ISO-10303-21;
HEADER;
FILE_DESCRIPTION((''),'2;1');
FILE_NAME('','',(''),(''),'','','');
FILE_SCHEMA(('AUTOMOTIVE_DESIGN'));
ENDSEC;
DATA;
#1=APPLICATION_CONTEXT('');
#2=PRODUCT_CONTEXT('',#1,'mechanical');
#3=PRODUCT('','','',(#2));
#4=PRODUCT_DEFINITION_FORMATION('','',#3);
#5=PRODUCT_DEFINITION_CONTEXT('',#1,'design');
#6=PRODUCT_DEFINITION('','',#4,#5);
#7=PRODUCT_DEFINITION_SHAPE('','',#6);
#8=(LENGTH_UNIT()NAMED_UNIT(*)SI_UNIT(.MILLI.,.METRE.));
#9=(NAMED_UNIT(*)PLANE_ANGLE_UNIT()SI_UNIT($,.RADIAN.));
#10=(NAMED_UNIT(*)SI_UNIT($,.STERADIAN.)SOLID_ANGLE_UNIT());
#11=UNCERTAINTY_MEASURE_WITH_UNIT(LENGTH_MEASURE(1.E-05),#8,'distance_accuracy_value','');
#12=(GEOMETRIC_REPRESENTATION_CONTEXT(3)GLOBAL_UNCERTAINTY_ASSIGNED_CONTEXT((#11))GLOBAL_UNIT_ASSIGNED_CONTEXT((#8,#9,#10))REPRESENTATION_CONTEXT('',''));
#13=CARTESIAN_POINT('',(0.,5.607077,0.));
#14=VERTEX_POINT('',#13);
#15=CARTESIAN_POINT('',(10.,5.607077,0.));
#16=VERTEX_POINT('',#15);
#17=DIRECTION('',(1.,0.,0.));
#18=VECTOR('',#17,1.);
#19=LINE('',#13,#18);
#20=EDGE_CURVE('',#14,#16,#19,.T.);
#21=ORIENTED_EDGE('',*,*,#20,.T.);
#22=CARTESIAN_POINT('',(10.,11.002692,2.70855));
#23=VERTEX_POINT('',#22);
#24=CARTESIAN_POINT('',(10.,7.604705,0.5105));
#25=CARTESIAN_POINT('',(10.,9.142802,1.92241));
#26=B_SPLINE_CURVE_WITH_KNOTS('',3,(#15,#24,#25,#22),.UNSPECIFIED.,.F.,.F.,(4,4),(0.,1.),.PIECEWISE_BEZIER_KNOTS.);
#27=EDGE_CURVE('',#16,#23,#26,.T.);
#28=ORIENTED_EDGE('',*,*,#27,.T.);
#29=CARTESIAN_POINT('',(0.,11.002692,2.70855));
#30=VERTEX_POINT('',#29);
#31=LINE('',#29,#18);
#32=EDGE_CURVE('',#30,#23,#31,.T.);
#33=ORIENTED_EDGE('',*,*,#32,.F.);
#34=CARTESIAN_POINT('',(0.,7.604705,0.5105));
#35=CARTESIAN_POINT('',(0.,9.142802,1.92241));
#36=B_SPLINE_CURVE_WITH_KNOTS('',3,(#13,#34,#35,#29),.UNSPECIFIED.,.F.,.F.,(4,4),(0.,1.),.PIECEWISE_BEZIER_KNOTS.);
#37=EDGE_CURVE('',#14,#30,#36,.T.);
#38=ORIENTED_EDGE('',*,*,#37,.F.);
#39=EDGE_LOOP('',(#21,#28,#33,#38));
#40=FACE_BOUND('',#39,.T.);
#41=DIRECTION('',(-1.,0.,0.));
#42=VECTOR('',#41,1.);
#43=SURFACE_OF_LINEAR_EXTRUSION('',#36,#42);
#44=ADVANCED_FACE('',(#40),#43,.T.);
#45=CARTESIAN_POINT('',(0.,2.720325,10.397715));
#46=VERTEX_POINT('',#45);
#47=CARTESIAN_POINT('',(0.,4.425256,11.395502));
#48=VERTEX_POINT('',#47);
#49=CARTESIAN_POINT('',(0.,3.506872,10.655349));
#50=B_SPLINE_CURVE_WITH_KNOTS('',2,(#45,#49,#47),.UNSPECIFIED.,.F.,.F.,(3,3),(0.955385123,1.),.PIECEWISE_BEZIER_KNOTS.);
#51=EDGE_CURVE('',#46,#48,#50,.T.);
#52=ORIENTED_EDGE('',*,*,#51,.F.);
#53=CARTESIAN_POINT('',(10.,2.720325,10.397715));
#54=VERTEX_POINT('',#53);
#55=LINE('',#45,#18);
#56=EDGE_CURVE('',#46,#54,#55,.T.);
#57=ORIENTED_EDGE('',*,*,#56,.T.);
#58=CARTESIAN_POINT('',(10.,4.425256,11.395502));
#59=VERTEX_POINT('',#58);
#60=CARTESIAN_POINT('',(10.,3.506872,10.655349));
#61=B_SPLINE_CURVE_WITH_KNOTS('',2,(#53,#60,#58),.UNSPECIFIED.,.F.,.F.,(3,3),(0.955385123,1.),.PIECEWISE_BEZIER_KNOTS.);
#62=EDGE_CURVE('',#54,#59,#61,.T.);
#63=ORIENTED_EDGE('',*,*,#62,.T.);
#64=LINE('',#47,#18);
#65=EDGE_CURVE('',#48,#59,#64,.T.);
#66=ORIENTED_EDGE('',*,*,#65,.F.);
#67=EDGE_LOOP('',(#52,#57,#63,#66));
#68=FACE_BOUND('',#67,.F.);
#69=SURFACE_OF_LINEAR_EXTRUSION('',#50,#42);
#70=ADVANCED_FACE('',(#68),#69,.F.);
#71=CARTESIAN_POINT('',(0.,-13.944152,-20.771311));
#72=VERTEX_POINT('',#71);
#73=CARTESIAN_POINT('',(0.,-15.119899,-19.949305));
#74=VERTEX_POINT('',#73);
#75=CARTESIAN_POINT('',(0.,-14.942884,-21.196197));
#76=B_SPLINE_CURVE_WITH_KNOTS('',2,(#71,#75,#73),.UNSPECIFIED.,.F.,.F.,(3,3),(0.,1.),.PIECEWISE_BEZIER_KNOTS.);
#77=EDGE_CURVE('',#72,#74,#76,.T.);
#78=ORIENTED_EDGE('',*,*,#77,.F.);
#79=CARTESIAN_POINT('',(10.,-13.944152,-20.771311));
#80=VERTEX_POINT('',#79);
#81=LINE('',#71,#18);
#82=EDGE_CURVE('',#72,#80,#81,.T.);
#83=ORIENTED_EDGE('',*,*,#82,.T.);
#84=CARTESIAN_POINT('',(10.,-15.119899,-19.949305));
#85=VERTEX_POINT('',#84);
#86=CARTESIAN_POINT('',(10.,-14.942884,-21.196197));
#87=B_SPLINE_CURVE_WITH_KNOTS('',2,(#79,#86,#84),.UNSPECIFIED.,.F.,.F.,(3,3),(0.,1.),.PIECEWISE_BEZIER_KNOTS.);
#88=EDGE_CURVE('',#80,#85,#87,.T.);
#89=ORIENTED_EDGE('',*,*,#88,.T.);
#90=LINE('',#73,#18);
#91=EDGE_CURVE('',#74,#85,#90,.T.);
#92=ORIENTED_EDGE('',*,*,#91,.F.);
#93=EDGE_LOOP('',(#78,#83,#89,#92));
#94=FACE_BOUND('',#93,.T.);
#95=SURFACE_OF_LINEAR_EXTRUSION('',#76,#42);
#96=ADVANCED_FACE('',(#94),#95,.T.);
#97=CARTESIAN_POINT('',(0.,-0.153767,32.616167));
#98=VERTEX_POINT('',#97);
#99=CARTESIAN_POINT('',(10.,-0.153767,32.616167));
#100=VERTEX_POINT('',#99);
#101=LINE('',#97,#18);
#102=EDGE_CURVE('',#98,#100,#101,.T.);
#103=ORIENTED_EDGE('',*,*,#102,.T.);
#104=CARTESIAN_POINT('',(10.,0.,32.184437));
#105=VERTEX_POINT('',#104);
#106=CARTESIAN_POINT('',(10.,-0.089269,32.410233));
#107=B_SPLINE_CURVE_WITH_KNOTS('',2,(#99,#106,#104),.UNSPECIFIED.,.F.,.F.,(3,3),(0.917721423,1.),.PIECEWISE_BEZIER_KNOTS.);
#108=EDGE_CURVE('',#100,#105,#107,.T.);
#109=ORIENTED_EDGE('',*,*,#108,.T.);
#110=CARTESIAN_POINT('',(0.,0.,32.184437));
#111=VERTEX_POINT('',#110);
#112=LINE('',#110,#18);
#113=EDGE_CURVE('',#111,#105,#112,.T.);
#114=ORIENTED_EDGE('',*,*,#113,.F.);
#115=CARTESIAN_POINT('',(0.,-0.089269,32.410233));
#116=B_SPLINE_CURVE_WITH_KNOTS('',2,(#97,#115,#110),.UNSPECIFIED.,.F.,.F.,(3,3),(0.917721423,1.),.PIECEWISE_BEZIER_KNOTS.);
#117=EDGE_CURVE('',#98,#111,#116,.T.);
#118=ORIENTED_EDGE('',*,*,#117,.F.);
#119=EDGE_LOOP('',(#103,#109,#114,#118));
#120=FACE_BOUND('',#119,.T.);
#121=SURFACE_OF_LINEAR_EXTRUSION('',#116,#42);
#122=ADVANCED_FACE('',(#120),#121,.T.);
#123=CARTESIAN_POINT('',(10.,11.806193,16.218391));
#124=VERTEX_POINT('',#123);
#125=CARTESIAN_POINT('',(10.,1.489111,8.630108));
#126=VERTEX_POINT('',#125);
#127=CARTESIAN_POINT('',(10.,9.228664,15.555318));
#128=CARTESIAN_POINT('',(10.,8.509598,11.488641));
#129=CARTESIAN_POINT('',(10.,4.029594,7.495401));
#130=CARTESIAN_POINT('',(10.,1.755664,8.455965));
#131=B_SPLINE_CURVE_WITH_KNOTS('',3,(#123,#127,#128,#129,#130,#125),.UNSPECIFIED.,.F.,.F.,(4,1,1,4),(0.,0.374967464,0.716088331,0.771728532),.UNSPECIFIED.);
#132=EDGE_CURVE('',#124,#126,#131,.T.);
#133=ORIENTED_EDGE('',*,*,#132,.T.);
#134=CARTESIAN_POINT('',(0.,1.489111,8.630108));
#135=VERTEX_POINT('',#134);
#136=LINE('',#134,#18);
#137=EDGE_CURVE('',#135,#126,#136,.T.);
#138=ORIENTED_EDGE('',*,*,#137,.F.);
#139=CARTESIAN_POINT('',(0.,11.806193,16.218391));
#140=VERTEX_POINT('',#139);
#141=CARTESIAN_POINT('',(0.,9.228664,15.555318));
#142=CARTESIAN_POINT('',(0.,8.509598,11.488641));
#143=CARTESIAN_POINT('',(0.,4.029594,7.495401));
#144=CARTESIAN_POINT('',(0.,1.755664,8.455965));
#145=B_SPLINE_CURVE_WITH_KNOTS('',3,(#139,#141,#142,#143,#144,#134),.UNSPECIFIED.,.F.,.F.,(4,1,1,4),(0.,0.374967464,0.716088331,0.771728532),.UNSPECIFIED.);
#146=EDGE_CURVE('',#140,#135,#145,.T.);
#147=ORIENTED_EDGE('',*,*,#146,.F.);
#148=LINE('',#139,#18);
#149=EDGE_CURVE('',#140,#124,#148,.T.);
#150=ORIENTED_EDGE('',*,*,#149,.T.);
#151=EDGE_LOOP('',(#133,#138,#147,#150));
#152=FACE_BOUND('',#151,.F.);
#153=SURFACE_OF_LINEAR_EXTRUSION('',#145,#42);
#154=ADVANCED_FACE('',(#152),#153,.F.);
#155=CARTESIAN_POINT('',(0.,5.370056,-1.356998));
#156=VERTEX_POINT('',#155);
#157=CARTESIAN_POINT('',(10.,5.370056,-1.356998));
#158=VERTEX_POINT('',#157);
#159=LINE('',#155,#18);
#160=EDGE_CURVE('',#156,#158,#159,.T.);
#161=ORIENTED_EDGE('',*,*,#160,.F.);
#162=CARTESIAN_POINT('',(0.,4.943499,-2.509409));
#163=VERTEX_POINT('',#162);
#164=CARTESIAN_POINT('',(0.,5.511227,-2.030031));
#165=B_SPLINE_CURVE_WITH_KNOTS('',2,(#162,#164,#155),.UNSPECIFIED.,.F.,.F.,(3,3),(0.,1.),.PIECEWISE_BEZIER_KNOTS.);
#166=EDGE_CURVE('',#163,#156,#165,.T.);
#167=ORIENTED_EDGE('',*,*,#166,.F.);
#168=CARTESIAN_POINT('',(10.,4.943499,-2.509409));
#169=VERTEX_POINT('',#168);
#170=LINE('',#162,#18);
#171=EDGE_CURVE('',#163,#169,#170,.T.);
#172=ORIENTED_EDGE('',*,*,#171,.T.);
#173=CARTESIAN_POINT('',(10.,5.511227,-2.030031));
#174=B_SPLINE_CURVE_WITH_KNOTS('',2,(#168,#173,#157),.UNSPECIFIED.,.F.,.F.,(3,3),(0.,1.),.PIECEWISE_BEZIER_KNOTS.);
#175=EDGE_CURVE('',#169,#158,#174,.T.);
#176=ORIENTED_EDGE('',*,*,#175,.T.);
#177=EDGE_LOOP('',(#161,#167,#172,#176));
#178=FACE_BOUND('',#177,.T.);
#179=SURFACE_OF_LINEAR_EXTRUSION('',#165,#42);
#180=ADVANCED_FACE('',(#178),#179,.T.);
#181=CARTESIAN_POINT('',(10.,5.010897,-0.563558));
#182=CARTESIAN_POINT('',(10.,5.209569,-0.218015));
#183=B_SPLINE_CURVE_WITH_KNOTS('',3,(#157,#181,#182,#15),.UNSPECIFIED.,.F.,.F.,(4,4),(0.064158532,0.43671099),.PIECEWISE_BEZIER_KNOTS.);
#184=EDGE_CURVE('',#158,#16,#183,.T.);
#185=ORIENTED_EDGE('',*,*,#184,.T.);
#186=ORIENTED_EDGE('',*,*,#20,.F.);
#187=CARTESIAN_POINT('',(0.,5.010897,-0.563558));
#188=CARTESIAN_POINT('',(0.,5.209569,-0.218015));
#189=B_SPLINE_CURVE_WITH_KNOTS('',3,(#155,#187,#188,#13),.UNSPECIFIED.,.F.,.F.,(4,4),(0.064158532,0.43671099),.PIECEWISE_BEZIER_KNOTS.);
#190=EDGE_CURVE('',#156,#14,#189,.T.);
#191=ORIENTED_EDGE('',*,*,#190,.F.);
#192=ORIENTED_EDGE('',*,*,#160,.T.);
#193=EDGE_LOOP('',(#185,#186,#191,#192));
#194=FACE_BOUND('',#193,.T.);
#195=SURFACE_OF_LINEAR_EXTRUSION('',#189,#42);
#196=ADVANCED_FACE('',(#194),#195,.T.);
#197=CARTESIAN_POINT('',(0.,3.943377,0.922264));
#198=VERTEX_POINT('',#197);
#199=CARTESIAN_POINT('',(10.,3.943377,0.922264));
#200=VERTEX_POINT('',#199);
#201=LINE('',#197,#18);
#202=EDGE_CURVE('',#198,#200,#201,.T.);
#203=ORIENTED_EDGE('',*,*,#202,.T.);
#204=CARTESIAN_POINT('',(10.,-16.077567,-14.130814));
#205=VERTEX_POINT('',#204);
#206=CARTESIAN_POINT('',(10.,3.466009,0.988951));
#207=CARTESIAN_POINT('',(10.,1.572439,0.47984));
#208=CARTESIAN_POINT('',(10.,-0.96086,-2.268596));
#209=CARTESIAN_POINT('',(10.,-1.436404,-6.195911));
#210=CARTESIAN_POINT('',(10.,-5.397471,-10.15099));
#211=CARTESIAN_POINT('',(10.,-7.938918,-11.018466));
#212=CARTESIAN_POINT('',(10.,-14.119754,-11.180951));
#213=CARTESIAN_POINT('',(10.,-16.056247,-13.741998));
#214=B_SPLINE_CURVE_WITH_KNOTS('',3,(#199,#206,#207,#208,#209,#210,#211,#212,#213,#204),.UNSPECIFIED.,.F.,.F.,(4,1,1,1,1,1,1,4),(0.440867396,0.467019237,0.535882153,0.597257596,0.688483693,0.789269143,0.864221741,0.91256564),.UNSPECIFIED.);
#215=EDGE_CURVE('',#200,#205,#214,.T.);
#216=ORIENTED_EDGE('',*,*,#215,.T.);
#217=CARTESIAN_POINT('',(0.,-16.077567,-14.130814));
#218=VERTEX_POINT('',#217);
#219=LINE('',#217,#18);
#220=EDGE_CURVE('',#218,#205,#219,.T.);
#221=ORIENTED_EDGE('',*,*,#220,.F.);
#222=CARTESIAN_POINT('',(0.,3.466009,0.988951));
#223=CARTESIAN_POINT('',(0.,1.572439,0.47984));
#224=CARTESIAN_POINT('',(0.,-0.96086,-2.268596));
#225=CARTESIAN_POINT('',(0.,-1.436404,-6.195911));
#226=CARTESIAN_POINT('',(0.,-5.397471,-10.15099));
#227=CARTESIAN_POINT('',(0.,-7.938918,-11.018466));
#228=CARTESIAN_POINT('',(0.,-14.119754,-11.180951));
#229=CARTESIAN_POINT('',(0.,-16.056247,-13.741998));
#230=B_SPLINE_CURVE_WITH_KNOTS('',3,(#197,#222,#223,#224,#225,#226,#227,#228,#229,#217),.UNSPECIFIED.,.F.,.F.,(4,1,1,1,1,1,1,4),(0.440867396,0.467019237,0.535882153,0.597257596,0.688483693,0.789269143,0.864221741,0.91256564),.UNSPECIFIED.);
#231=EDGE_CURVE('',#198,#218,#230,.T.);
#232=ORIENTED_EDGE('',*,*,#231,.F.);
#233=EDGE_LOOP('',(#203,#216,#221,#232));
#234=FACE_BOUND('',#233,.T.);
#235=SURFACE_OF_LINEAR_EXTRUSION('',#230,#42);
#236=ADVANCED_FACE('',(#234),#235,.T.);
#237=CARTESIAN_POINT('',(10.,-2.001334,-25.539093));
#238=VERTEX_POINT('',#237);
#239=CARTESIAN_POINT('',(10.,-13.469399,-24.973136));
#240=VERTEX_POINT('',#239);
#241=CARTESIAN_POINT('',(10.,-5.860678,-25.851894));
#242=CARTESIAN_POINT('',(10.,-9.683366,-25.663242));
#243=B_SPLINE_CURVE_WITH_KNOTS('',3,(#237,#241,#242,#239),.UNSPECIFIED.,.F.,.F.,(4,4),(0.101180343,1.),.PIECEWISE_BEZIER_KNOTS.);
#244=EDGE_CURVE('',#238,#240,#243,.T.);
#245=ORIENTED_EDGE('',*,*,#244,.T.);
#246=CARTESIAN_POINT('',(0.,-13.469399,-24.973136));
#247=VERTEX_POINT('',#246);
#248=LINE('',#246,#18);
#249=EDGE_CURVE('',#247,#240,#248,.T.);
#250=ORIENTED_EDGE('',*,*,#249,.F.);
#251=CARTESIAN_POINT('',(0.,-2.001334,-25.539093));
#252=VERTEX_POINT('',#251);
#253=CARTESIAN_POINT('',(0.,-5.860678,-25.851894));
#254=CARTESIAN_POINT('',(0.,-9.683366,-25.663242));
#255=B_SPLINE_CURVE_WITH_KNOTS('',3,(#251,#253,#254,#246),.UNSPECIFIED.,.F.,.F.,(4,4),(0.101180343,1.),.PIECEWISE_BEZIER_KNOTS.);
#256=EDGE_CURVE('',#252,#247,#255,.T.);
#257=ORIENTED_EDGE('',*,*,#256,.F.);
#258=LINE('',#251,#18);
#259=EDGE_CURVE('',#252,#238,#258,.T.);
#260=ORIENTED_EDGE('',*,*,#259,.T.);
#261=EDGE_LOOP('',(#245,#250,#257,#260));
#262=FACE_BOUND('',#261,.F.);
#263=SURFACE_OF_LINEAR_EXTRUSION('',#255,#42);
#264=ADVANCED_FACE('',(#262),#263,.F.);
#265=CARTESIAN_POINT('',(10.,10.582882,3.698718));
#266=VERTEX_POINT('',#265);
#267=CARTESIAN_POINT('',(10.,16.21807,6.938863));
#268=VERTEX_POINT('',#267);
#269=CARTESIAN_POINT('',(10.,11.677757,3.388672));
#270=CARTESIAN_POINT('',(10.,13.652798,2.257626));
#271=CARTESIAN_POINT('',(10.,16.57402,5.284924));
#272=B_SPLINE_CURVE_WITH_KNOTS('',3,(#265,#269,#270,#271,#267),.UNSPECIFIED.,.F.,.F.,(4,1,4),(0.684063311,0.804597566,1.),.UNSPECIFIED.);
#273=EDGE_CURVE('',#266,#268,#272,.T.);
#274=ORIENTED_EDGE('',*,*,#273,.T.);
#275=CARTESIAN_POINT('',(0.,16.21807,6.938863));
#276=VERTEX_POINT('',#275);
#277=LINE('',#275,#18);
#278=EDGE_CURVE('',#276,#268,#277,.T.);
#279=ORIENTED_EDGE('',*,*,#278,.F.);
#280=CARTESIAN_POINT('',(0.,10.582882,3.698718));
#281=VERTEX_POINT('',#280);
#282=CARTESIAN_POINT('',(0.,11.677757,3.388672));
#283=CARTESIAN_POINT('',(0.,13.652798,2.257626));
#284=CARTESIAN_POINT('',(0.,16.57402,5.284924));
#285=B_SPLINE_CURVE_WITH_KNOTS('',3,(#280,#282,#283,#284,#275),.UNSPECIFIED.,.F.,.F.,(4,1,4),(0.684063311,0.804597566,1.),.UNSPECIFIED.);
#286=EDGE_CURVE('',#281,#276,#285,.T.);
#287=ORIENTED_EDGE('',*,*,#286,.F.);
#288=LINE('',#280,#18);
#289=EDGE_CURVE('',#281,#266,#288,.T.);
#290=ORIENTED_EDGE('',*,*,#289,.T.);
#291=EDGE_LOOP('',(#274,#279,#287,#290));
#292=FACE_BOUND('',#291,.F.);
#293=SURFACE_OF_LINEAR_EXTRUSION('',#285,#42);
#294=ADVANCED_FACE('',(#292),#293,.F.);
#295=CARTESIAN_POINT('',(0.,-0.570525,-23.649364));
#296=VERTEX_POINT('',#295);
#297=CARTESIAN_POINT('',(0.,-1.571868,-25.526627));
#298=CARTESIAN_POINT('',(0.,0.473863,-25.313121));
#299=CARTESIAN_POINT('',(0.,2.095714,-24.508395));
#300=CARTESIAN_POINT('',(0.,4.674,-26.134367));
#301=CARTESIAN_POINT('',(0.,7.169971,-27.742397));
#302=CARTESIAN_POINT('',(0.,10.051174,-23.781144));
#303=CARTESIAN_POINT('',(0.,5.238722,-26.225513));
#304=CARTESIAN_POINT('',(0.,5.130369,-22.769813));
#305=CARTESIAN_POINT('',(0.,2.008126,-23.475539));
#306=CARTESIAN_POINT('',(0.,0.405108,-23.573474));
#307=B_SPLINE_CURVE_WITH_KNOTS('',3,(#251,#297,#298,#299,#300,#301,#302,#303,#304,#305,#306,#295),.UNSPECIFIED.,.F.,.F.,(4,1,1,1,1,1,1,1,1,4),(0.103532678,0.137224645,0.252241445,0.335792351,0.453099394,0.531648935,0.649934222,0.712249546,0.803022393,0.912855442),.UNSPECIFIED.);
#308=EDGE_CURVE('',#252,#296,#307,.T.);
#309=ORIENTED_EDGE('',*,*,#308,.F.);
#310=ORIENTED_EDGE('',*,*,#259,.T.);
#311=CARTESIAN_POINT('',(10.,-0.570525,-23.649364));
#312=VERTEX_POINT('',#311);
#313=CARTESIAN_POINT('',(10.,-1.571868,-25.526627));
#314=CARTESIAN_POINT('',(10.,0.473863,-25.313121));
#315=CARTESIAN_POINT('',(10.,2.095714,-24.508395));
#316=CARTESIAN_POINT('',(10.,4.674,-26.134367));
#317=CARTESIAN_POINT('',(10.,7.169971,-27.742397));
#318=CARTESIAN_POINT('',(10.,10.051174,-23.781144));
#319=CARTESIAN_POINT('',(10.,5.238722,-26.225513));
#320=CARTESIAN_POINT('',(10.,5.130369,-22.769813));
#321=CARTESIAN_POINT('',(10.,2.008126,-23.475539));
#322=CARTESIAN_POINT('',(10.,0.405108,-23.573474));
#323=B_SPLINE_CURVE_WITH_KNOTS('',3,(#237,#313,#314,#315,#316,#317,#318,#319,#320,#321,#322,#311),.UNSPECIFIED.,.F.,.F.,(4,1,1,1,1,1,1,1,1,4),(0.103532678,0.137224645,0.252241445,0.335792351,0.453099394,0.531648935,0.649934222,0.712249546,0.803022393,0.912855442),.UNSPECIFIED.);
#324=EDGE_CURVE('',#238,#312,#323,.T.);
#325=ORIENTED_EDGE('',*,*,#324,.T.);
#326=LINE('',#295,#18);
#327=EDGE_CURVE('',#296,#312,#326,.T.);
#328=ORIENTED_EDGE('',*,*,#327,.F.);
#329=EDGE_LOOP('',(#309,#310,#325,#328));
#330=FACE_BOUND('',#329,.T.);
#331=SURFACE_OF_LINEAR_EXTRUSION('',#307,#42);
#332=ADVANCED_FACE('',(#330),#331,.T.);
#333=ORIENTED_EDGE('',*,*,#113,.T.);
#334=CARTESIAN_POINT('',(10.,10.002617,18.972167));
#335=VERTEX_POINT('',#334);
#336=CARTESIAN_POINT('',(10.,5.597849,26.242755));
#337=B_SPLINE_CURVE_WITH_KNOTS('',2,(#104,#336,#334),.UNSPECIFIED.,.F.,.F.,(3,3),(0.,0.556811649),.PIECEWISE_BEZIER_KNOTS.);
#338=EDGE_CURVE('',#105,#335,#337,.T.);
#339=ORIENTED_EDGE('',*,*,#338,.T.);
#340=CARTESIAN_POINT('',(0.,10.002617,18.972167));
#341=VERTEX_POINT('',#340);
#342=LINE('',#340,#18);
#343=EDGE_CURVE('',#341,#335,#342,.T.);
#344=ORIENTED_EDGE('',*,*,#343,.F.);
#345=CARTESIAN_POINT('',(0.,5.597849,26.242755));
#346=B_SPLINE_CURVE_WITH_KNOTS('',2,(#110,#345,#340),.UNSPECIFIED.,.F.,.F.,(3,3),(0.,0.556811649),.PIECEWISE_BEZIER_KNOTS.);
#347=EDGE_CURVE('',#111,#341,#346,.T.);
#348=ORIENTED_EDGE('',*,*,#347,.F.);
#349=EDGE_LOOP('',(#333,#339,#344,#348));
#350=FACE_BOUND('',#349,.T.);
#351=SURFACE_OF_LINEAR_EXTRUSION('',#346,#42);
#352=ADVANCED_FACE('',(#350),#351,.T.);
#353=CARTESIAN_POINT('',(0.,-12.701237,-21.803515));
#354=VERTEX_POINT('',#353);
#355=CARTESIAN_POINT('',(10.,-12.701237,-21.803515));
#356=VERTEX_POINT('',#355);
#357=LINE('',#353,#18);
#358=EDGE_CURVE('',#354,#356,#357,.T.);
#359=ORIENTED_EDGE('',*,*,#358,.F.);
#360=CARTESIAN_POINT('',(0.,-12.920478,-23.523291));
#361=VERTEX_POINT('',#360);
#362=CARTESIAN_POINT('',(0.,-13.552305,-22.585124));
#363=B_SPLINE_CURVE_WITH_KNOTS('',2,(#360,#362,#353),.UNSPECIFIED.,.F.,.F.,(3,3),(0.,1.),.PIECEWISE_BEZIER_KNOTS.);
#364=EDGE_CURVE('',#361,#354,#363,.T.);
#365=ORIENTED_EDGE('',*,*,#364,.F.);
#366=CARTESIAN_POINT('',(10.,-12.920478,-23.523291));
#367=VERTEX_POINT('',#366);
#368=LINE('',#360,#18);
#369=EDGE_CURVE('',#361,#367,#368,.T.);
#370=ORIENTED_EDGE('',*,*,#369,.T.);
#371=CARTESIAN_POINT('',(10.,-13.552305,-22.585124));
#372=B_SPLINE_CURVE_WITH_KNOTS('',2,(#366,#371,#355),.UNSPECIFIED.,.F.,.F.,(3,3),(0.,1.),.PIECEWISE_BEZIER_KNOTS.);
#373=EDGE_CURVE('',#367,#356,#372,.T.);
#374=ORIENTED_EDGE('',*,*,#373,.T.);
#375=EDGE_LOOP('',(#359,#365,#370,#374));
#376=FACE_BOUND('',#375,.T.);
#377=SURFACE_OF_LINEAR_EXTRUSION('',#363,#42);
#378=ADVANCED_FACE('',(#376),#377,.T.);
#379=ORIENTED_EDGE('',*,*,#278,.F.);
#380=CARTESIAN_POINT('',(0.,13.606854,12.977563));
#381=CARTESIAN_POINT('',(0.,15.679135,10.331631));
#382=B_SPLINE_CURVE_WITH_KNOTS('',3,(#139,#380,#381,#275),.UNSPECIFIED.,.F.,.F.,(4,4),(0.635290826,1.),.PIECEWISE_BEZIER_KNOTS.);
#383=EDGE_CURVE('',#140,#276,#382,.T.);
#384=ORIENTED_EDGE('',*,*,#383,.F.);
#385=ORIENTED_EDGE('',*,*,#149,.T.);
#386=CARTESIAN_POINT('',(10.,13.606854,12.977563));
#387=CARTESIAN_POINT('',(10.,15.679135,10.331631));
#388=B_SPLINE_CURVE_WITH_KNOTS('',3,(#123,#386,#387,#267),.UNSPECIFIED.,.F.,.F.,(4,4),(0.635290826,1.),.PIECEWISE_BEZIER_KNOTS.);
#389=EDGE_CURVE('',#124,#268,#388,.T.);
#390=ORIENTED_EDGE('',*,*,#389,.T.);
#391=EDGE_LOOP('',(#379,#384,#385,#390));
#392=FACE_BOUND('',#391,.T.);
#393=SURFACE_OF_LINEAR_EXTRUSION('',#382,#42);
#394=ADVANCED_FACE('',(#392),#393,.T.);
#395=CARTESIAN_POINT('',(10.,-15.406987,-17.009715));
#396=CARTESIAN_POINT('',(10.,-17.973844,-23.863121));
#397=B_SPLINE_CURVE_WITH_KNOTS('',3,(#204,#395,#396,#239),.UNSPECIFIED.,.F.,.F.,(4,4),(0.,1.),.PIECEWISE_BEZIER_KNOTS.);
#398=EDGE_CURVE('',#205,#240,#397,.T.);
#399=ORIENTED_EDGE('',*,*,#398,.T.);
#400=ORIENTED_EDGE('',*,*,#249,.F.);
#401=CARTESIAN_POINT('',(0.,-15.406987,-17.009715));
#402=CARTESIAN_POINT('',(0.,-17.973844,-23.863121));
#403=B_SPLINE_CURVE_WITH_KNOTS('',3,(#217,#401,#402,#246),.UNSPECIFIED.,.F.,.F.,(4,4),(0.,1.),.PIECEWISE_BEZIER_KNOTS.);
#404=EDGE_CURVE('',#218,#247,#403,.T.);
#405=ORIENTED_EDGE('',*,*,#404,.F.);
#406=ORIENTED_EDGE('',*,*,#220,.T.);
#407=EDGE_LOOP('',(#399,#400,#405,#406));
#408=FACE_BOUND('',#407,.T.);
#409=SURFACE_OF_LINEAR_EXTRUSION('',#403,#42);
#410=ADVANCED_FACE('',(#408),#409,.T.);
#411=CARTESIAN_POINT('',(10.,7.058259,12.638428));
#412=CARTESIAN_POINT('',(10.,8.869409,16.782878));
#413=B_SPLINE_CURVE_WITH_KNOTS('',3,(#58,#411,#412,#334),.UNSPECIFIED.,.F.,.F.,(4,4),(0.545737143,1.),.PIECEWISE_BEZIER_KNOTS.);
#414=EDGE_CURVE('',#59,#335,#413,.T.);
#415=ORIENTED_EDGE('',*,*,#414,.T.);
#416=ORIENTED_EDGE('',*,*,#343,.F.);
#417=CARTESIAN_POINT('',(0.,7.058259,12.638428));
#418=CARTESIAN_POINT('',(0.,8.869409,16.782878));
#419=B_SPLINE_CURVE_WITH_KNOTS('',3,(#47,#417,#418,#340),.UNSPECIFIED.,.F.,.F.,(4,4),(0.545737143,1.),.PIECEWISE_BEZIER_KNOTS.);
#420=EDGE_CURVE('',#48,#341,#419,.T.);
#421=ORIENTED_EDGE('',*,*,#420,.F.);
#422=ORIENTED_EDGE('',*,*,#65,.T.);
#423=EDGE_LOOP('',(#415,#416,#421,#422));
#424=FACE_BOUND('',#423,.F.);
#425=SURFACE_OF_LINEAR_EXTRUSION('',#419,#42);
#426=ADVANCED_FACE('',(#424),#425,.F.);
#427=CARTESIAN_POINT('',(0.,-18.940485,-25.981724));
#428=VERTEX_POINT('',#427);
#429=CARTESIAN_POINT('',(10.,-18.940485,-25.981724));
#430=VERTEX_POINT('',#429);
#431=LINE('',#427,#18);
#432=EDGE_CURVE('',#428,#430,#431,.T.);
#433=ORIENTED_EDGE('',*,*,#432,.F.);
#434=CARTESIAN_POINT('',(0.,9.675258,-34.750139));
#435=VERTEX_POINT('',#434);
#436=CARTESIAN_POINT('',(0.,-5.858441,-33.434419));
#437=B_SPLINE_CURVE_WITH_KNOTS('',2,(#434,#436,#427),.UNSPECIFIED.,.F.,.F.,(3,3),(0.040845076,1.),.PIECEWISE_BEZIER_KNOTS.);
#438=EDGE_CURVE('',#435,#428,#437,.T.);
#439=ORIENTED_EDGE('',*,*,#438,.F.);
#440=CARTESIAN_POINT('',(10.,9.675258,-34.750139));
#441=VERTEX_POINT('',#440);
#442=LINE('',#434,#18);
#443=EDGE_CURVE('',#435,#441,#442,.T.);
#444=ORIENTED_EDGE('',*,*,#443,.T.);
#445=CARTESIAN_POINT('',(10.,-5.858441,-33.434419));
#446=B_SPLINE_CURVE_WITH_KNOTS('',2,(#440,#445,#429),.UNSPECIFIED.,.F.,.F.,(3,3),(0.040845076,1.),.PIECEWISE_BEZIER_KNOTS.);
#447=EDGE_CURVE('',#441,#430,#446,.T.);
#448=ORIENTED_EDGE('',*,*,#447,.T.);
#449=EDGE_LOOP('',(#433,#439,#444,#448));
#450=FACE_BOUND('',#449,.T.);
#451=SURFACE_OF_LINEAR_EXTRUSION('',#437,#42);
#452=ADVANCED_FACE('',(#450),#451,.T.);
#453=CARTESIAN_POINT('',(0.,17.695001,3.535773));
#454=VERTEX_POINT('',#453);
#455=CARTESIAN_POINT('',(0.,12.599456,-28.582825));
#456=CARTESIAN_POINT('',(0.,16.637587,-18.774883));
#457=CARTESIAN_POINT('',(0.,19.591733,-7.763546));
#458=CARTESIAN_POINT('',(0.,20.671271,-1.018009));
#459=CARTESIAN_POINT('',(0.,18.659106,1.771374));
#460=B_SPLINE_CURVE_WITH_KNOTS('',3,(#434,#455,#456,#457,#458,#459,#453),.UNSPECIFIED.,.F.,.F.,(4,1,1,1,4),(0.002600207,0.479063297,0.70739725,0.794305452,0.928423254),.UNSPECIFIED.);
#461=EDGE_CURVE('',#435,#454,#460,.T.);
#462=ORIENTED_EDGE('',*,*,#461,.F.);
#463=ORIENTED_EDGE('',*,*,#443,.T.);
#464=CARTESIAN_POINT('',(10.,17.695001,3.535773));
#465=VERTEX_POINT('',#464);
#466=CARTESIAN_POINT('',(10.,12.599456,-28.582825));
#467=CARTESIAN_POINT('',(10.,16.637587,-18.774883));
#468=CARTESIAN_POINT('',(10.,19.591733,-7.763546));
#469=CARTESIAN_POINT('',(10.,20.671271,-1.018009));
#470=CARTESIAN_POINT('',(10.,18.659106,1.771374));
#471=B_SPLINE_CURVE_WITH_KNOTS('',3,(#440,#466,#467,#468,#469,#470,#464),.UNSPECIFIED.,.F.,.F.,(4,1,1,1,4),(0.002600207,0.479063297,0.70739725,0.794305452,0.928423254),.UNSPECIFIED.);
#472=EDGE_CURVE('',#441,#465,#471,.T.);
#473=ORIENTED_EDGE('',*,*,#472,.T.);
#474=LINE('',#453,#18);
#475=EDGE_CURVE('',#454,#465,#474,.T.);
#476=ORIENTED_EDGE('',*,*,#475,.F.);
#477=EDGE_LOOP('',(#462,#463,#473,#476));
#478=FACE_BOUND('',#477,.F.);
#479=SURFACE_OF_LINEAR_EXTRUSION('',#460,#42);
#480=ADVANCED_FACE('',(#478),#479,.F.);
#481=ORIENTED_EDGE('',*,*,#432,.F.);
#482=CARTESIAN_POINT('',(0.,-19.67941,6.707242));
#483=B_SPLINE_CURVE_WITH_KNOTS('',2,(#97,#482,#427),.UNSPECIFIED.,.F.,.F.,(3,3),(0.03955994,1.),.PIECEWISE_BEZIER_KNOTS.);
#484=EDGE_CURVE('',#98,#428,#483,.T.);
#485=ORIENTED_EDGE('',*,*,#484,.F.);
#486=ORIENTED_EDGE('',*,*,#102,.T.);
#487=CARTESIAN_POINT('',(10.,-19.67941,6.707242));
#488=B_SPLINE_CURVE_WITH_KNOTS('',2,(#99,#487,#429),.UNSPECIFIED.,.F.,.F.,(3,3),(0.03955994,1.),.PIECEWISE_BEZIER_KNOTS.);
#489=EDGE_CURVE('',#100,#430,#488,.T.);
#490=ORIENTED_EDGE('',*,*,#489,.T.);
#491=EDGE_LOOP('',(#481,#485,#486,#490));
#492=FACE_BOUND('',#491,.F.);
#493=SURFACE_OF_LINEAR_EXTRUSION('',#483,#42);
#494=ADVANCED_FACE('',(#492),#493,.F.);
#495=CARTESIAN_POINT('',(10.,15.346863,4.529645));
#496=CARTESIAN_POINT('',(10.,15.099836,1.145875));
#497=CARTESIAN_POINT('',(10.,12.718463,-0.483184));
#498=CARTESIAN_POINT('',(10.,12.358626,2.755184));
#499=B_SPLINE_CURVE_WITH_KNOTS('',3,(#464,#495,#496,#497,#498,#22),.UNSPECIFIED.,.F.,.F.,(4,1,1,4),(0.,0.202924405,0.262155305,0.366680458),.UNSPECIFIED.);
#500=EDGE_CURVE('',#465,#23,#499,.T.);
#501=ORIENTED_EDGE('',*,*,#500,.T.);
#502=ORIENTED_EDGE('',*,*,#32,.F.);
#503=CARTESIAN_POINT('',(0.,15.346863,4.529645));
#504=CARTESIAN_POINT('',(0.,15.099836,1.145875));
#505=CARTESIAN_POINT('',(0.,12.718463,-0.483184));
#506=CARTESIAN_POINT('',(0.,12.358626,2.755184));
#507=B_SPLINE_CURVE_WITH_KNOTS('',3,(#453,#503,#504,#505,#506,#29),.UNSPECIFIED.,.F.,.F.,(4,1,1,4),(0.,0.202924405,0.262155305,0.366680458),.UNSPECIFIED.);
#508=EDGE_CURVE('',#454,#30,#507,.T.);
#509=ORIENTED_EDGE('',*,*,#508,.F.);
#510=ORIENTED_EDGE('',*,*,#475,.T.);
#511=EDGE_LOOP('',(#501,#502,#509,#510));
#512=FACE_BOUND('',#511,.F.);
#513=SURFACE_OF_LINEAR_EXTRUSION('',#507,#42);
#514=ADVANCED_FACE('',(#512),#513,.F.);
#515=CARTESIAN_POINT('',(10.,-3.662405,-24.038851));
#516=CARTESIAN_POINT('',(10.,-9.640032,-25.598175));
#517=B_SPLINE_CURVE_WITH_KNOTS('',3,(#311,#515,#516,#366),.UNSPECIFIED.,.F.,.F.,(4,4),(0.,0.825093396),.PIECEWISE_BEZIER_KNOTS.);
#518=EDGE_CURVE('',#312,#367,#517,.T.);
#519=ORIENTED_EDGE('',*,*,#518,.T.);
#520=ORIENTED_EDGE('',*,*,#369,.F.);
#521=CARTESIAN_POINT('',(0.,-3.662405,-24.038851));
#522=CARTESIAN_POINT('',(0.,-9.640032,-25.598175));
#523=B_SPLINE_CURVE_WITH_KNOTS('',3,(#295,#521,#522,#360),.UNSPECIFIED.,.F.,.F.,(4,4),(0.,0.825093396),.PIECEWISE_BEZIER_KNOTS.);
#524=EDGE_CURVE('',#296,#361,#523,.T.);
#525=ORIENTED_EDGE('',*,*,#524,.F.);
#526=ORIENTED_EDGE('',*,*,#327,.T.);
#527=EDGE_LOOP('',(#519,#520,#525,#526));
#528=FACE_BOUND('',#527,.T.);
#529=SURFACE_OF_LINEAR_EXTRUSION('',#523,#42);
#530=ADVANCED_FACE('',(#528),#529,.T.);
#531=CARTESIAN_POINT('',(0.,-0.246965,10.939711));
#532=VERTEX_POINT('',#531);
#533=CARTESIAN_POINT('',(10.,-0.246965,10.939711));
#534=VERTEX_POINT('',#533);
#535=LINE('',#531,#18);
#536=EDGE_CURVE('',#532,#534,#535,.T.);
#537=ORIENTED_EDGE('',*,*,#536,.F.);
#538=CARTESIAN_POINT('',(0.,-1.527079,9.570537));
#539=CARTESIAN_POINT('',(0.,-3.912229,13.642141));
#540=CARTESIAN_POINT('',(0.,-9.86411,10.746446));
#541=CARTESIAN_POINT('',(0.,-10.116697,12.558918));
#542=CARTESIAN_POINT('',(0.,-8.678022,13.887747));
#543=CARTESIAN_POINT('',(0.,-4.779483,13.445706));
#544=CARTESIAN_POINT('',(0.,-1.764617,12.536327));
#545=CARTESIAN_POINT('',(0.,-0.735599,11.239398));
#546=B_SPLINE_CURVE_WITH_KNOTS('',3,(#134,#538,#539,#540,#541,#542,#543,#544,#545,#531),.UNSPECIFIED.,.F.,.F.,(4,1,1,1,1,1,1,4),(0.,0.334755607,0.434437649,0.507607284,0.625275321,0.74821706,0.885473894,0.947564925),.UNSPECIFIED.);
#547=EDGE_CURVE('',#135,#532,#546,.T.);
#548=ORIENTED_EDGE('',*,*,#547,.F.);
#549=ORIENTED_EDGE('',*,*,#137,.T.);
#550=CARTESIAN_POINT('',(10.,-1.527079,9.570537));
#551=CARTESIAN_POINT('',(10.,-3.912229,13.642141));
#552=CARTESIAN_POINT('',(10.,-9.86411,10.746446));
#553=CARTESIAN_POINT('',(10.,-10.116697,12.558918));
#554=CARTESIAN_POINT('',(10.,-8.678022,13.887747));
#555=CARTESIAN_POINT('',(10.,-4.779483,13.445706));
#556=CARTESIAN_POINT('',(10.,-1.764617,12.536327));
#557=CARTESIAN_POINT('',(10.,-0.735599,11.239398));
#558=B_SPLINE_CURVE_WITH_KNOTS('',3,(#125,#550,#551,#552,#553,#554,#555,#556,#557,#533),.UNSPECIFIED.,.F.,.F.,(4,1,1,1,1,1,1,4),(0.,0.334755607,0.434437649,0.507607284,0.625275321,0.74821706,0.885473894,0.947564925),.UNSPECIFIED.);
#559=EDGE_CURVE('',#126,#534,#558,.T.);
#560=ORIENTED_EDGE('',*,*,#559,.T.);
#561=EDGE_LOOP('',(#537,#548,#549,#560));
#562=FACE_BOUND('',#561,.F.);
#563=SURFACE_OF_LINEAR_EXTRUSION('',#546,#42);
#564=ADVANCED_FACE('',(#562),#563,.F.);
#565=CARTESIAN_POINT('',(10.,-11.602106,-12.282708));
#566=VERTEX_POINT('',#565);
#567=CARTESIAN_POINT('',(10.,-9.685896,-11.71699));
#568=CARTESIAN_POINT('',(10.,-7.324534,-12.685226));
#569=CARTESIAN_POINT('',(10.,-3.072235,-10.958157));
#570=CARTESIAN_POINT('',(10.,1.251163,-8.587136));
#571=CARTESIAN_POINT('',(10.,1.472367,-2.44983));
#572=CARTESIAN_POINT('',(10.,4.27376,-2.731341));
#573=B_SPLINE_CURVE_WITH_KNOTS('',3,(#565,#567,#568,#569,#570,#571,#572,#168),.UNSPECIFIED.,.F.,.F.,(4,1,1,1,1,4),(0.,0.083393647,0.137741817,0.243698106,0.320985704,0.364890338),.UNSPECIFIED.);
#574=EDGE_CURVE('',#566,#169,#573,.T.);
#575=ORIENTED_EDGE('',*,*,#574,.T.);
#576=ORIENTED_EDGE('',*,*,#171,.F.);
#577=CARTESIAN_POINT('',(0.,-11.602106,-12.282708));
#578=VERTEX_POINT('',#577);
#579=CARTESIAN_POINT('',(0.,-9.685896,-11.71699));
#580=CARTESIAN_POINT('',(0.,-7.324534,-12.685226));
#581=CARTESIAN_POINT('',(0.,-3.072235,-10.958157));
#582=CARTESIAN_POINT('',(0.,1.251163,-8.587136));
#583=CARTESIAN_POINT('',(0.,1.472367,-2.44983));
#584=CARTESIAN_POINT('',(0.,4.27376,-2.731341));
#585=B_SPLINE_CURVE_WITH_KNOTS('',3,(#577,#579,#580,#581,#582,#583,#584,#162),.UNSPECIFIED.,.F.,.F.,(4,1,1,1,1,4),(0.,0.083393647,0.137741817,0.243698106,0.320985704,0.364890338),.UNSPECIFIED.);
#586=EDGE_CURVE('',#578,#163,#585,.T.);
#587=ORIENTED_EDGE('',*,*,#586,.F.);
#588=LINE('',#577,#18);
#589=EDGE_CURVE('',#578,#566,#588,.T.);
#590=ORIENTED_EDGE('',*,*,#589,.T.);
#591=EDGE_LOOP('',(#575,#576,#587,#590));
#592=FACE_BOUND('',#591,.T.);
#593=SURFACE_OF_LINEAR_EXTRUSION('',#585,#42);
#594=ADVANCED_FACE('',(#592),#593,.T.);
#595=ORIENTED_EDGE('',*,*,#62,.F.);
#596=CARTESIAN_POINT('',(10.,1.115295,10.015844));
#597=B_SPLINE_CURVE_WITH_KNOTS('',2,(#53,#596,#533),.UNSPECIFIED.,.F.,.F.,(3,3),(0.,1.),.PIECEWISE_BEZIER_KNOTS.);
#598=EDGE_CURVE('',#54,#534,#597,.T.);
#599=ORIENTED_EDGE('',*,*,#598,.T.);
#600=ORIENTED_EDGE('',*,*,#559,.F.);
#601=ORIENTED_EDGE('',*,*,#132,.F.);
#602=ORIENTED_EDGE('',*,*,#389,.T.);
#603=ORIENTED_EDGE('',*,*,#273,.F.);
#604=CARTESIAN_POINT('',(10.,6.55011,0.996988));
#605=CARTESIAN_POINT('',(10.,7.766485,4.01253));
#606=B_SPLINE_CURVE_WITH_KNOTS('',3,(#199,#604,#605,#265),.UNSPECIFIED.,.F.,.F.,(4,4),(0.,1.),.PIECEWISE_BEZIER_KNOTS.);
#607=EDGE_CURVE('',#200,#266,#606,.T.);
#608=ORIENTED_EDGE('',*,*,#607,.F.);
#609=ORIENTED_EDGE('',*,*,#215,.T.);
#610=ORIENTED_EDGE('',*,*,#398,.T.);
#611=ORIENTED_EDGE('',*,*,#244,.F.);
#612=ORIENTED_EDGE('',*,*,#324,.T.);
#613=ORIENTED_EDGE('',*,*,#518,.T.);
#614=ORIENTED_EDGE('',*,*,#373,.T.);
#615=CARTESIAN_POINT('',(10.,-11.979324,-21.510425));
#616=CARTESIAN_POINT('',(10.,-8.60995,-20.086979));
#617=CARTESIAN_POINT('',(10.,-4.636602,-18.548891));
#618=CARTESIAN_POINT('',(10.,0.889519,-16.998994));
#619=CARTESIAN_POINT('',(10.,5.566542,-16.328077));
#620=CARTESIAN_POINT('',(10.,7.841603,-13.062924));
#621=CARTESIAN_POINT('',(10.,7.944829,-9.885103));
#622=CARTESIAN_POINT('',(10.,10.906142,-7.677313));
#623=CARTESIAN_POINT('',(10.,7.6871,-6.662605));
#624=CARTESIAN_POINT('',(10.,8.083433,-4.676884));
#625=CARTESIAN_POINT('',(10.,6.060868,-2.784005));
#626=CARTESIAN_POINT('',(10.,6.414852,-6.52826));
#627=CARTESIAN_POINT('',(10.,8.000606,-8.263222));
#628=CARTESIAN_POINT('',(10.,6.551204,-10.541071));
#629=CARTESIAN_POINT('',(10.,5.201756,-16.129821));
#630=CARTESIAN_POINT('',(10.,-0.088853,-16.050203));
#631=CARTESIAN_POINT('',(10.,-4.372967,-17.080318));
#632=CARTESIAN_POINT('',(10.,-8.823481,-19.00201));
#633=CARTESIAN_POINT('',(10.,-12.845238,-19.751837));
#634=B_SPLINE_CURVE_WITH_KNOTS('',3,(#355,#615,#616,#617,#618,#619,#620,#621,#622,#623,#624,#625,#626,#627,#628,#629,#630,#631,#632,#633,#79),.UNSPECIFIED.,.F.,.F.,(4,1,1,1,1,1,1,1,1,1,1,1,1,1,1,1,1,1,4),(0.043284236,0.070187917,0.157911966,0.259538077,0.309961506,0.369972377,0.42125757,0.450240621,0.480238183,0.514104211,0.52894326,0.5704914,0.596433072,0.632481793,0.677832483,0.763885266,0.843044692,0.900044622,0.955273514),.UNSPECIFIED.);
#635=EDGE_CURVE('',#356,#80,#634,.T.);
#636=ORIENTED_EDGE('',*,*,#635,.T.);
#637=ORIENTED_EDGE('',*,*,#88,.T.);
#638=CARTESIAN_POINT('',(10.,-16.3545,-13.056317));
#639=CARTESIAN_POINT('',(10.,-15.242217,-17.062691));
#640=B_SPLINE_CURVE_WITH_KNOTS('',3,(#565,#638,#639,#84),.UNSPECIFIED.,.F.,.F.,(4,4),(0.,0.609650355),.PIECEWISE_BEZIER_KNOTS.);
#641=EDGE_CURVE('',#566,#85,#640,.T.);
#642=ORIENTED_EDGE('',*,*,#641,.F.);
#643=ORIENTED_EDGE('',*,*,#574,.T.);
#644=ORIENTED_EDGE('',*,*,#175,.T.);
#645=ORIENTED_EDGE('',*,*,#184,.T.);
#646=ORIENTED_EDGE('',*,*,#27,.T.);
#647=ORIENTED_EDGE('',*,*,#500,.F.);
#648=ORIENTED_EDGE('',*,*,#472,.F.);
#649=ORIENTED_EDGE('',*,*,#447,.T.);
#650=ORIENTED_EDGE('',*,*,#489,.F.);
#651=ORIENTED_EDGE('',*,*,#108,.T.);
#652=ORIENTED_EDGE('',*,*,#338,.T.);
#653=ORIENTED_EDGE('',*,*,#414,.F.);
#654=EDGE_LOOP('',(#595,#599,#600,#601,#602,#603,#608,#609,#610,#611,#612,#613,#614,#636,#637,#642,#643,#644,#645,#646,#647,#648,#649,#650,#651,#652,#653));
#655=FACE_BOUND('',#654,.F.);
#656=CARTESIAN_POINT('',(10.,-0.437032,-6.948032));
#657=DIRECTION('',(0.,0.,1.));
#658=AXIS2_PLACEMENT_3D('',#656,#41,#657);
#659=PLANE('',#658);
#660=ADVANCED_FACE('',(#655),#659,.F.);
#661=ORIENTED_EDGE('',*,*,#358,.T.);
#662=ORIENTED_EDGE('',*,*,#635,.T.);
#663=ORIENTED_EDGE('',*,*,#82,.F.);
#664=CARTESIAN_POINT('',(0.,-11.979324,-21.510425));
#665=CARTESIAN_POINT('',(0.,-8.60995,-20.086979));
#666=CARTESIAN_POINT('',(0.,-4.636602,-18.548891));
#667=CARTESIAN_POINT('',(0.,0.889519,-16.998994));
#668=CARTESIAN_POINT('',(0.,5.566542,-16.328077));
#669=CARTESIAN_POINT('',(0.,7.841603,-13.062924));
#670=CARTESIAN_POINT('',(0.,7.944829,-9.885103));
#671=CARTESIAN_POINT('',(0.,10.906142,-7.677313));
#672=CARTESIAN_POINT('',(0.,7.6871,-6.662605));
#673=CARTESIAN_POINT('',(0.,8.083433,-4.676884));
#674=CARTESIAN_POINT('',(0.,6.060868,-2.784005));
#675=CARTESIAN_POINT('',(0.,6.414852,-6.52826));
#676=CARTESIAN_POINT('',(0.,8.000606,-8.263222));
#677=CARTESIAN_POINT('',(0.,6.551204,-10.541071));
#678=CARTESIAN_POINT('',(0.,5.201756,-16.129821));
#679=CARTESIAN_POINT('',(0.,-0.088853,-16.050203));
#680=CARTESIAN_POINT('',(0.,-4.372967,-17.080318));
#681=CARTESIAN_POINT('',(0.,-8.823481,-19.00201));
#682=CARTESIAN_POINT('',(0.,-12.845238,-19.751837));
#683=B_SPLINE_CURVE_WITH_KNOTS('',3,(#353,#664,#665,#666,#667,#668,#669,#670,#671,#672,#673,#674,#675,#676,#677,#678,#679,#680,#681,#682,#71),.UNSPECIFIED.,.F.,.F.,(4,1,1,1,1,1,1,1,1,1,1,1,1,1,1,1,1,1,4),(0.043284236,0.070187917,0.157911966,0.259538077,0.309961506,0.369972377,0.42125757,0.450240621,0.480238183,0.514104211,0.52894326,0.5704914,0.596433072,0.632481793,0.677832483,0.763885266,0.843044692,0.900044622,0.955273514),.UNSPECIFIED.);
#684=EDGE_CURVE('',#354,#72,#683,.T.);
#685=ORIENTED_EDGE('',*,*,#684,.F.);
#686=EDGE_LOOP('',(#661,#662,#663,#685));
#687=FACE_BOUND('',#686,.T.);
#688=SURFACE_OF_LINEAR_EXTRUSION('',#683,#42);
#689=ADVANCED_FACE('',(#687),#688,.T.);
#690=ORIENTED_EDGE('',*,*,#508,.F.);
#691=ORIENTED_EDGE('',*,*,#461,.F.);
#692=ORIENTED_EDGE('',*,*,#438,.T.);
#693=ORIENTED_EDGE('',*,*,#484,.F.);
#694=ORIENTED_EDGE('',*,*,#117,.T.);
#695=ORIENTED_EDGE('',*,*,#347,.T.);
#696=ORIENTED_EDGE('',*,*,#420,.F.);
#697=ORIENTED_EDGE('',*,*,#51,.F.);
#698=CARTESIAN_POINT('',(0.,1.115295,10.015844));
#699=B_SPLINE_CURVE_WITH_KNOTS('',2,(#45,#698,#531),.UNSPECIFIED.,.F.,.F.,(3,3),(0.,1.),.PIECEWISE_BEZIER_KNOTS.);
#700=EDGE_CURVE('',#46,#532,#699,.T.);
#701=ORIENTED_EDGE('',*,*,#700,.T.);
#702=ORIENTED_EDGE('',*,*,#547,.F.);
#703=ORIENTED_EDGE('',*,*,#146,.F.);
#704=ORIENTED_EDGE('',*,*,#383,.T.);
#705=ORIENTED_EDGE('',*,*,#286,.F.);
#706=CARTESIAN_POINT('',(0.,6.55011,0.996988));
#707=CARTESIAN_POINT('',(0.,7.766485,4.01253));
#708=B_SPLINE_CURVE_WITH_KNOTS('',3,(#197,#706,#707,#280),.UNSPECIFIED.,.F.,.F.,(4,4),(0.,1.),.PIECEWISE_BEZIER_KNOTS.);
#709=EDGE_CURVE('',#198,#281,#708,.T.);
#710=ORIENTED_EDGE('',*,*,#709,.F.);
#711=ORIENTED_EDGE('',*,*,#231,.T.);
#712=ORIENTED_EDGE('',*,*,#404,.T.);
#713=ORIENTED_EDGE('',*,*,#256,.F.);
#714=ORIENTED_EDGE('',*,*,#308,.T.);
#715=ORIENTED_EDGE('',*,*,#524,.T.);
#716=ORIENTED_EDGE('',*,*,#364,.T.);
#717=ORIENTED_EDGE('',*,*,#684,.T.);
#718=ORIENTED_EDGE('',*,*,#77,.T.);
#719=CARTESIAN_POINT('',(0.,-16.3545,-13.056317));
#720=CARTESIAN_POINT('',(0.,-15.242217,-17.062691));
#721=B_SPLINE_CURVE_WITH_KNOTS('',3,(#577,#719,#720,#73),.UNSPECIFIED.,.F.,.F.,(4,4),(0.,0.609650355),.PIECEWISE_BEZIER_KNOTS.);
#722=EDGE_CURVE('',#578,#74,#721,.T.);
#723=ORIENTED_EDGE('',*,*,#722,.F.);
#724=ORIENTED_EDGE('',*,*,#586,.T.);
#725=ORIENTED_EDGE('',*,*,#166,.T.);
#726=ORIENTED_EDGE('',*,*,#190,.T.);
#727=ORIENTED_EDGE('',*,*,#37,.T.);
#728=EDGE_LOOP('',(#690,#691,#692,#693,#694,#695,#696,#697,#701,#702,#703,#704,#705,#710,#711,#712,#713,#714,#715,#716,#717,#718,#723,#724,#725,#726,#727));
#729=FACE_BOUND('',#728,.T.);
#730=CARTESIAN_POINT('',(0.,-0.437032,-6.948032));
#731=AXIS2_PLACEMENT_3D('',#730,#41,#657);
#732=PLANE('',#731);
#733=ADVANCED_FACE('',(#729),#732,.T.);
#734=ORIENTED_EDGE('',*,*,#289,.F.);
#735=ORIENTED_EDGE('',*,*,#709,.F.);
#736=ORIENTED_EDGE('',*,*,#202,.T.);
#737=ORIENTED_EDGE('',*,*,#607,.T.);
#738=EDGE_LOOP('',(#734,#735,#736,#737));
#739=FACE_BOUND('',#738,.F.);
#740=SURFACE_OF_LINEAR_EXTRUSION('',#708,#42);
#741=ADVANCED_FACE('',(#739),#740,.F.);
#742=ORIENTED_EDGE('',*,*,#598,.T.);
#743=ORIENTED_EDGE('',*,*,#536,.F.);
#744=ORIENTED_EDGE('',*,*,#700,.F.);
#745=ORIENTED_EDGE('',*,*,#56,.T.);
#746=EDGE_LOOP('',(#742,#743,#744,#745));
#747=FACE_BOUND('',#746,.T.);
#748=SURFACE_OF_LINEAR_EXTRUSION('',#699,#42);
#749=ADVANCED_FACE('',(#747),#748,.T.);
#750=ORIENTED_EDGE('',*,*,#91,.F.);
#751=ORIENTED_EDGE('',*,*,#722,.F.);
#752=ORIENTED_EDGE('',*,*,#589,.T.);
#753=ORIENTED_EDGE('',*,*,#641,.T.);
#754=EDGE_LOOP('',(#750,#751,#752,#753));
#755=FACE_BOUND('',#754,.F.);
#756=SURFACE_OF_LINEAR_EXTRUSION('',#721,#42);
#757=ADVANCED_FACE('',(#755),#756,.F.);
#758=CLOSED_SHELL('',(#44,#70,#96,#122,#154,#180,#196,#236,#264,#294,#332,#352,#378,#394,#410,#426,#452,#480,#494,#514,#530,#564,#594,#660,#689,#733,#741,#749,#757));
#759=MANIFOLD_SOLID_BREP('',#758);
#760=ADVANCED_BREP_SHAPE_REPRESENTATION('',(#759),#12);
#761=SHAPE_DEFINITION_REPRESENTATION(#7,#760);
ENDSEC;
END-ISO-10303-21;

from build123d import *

# Parameters (mm, degrees)
BOSS_EXTRUDE1_DEPTH = 10


with BuildPart() as part:
    # Sketch1 → Boss-Extrude1 (new body)
    with BuildSketch(Plane(origin=(0, 0, 0), x_dir=(0, 0, -1), z_dir=(1, 0, 0))):
        with BuildLine():
            add(Edge.make_bspline(
                [(-32.616166955, -0.153767482), (-32.410233376, -0.089269145), (-32.184437288, 0)],
                knots=[0.917721423, 0.917721423, 0.917721423, 1, 1, 1], degree=2))
            add(Edge.make_bspline(
                [(-32.616166955, -0.153767482), (-6.707241591, -19.679410057), (25.98172436, -18.940485095)],
                knots=[0.03955994, 0.03955994, 0.03955994, 1, 1, 1], degree=2))
            add(Edge.make_bspline(
                [(34.750139425, 9.675257924), (33.434419406, -5.858441338), (25.98172436, -18.940485095)],
                knots=[0.040845076, 0.040845076, 0.040845076, 1, 1, 1], degree=2))
            add(Edge.make_bspline(
                [(34.750139425, 9.675257924), (28.582825389, 12.599456277), (18.774883381, 16.637587442), (7.763545936, 19.59173258), (1.018008589, 20.67127134), (-1.771374038, 18.659105751), (-3.535773438, 17.695000564)],
                knots=[0.002600207, 0.002600207, 0.002600207, 0.002600207, 0.479063297, 0.70739725, 0.794305452, 0.928423254, 0.928423254, 0.928423254, 0.928423254], degree=3))
            add(Edge.make_bspline(
                [(-3.535773438, 17.695000564), (-4.529645367, 15.346862551), (-1.145875463, 15.099836406), (0.483184414, 12.718462722), (-2.755184122, 12.358625571), (-2.708550132, 11.002691644)],
                knots=[0, 0, 0, 0, 0.202924405, 0.262155305, 0.366680458, 0.366680458, 0.366680458, 0.366680458], degree=3))
            add(Edge.make_bspline(
                [(0, 5.607076944), (-0.510499577, 7.604704852), (-1.922410174, 9.142802275), (-2.708550132, 11.002691644)],
                knots=[0, 0, 0, 0, 1, 1, 1, 1], degree=3))
            add(Edge.make_bspline(
                [(1.356998428, 5.370055993), (0.563557671, 5.010897248), (0.218015253, 5.209568957), (0, 5.607076944)],
                knots=[0.064158532, 0.064158532, 0.064158532, 0.064158532, 0.43671099, 0.43671099, 0.43671099, 0.43671099], degree=3))
            add(Edge.make_bspline(
                [(2.50940923, 4.943498592), (2.030031314, 5.511227017), (1.356998428, 5.370055993)],
                knots=[0, 0, 0, 1, 1, 1], degree=2))
            add(Edge.make_bspline(
                [(12.282708466, -11.602105568), (11.716990302, -9.685895855), (12.685226202, -7.324534068), (10.958156644, -3.072234886), (8.587135946, 1.251163489), (2.449830365, 1.472366858), (2.731341272, 4.273759907), (2.50940923, 4.943498592)],
                knots=[0, 0, 0, 0, 0.083393647, 0.137741817, 0.243698106, 0.320985704, 0.364890338, 0.364890338, 0.364890338, 0.364890338], degree=3))
            add(Edge.make_bspline(
                [(12.282708466, -11.602105568), (13.056317233, -16.354499909), (17.062690995, -15.242216766), (19.94930479, -15.119898595)],
                knots=[0, 0, 0, 0, 0.609650355, 0.609650355, 0.609650355, 0.609650355], degree=3))
            add(Edge.make_bspline(
                [(20.771311412, -13.944151681), (21.196197032, -14.942883665), (19.94930479, -15.119898595)],
                knots=[0, 0, 0, 1, 1, 1], degree=2))
            add(Edge.make_bspline(
                [(21.803515053, -12.701236846), (21.510424659, -11.979324037), (20.086979085, -8.609950032), (18.548891304, -4.636602207), (16.998993569, 0.889518799), (16.328077147, 5.566541982), (13.062924367, 7.8416029), (9.885102551, 7.944829381), (7.677312717, 10.906141675), (6.662605482, 7.687100186), (4.676883881, 8.083433161), (2.784004562, 6.060867849), (6.52825957, 6.414851665), (8.263222162, 8.00060639), (10.541070791, 6.551204394), (16.1298206, 5.201755859), (16.050202751, -0.088853464), (17.080318262, -4.372966621), (19.002010111, -8.82348124), (19.751837022, -12.845238022), (20.771311412, -13.944151681)],
                knots=[0.043284236, 0.043284236, 0.043284236, 0.043284236, 0.070187917, 0.157911966, 0.259538077, 0.309961506, 0.369972377, 0.42125757, 0.450240621, 0.480238183, 0.514104211, 0.52894326, 0.5704914, 0.596433072, 0.632481793, 0.677832483, 0.763885266, 0.843044692, 0.900044622, 0.955273514, 0.955273514, 0.955273514, 0.955273514], degree=3))
            add(Edge.make_bspline(
                [(23.523290907, -12.920477779), (22.585123871, -13.55230509), (21.803515053, -12.701236846)],
                knots=[0, 0, 0, 1, 1, 1], degree=2))
            add(Edge.make_bspline(
                [(23.649364418, -0.570525066), (24.038851296, -3.662404668), (25.59817464, -9.640031528), (23.523290907, -12.920477779)],
                knots=[0, 0, 0, 0, 0.825093396, 0.825093396, 0.825093396, 0.825093396], degree=3))
            add(Edge.make_bspline(
                [(25.539093083, -2.001333882), (25.526627177, -1.571867968), (25.313121334, 0.473862866), (24.508395318, 2.095714393), (26.134367038, 4.674000364), (27.742397109, 7.169970905), (23.781144363, 10.051173631), (26.225512577, 5.23872232), (22.769812951, 5.130369279), (23.475539458, 2.008125517), (23.57347437, 0.405107856), (23.649364418, -0.570525066)],
                knots=[0.103532678, 0.103532678, 0.103532678, 0.103532678, 0.137224645, 0.252241445, 0.335792351, 0.453099394, 0.531648935, 0.649934222, 0.712249546, 0.803022393, 0.912855442, 0.912855442, 0.912855442, 0.912855442], degree=3))
            add(Edge.make_bspline(
                [(25.539093083, -2.001333882), (25.851893908, -5.860677805), (25.66324164, -9.683366178), (24.973136277, -13.469399001)],
                knots=[0.101180343, 0.101180343, 0.101180343, 0.101180343, 1, 1, 1, 1], degree=3))
            add(Edge.make_bspline(
                [(14.130814382, -16.077566847), (17.00971518, -15.406986529), (23.863120783, -17.973844454), (24.973136277, -13.469399001)],
                knots=[0, 0, 0, 0, 1, 1, 1, 1], degree=3))
            add(Edge.make_bspline(
                [(-0.92226419, 3.943376594), (-0.988951357, 3.466008935), (-0.4798402, 1.57243922), (2.268596076, -0.96086022), (6.195911145, -1.436403565), (10.150990153, -5.397471193), (11.018465658, -7.938917569), (11.180951229, -14.119753728), (13.741997636, -16.056247168), (14.130814382, -16.077566847)],
                knots=[0.440867396, 0.440867396, 0.440867396, 0.440867396, 0.467019237, 0.535882153, 0.597257596, 0.688483693, 0.789269143, 0.864221741, 0.91256564, 0.91256564, 0.91256564, 0.91256564], degree=3))
            add(Edge.make_bspline(
                [(-0.92226419, 3.943376594), (-0.996988295, 6.55010994), (-4.012529952, 7.766485057), (-3.698718287, 10.582881811)],
                knots=[0, 0, 0, 0, 1, 1, 1, 1], degree=3))
            add(Edge.make_bspline(
                [(-3.698718287, 10.582881811), (-3.388671505, 11.677757377), (-2.257626148, 13.652798056), (-5.284923516, 16.574020194), (-6.938863358, 16.218070209)],
                knots=[0.684063311, 0.684063311, 0.684063311, 0.684063311, 0.804597566, 1, 1, 1, 1], degree=3))
            add(Edge.make_bspline(
                [(-16.218391409, 11.806193211), (-12.977563245, 13.606854446), (-10.331631009, 15.679135304), (-6.938863358, 16.218070209)],
                knots=[0.635290826, 0.635290826, 0.635290826, 0.635290826, 1, 1, 1, 1], degree=3))
            add(Edge.make_bspline(
                [(-16.218391409, 11.806193211), (-15.555317991, 9.228663677), (-11.488640598, 8.509598456), (-7.495401086, 4.029593828), (-8.455964772, 1.755663962), (-8.630107718, 1.489111276)],
                knots=[0, 0, 0, 0, 0.374967464, 0.716088331, 0.771728532, 0.771728532, 0.771728532, 0.771728532], degree=3))
            add(Edge.make_bspline(
                [(-8.630107718, 1.489111276), (-9.570536539, -1.527078585), (-13.642140839, -3.912228848), (-10.746445661, -9.864109982), (-12.558918483, -10.116697337), (-13.887746644, -8.678022289), (-13.445706454, -4.779482618), (-12.53632714, -1.764616784), (-11.239397579, -0.735598583), (-10.939711438, -0.246964835)],
                knots=[0, 0, 0, 0, 0.334755607, 0.434437649, 0.507607284, 0.625275321, 0.74821706, 0.885473894, 0.947564925, 0.947564925, 0.947564925, 0.947564925], degree=3))
            add(Edge.make_bspline(
                [(-10.39771491, 2.720324846), (-10.015843658, 1.115294553), (-10.939711438, -0.246964835)],
                knots=[0, 0, 0, 1, 1, 1], degree=2))
            add(Edge.make_bspline(
                [(-10.39771491, 2.720324846), (-10.6553486, 3.506871833), (-11.39550241, 4.425256324)],
                knots=[0.955385123, 0.955385123, 0.955385123, 1, 1, 1], degree=2))
            add(Edge.make_bspline(
                [(-11.39550241, 4.425256324), (-12.63842769, 7.058259393), (-16.782877709, 8.869409421), (-18.972167488, 10.002617311)],
                knots=[0.545737143, 0.545737143, 0.545737143, 0.545737143, 1, 1, 1, 1], degree=3))
            add(Edge.make_bspline(
                [(-32.184437288, 0), (-26.242754622, 5.597848633), (-18.972167488, 10.002617311)],
                knots=[0, 0, 0, 0.556811649, 0.556811649, 0.556811649], degree=2))
        make_face()
    extrude(amount=BOSS_EXTRUDE1_DEPTH)


solid = part.part
